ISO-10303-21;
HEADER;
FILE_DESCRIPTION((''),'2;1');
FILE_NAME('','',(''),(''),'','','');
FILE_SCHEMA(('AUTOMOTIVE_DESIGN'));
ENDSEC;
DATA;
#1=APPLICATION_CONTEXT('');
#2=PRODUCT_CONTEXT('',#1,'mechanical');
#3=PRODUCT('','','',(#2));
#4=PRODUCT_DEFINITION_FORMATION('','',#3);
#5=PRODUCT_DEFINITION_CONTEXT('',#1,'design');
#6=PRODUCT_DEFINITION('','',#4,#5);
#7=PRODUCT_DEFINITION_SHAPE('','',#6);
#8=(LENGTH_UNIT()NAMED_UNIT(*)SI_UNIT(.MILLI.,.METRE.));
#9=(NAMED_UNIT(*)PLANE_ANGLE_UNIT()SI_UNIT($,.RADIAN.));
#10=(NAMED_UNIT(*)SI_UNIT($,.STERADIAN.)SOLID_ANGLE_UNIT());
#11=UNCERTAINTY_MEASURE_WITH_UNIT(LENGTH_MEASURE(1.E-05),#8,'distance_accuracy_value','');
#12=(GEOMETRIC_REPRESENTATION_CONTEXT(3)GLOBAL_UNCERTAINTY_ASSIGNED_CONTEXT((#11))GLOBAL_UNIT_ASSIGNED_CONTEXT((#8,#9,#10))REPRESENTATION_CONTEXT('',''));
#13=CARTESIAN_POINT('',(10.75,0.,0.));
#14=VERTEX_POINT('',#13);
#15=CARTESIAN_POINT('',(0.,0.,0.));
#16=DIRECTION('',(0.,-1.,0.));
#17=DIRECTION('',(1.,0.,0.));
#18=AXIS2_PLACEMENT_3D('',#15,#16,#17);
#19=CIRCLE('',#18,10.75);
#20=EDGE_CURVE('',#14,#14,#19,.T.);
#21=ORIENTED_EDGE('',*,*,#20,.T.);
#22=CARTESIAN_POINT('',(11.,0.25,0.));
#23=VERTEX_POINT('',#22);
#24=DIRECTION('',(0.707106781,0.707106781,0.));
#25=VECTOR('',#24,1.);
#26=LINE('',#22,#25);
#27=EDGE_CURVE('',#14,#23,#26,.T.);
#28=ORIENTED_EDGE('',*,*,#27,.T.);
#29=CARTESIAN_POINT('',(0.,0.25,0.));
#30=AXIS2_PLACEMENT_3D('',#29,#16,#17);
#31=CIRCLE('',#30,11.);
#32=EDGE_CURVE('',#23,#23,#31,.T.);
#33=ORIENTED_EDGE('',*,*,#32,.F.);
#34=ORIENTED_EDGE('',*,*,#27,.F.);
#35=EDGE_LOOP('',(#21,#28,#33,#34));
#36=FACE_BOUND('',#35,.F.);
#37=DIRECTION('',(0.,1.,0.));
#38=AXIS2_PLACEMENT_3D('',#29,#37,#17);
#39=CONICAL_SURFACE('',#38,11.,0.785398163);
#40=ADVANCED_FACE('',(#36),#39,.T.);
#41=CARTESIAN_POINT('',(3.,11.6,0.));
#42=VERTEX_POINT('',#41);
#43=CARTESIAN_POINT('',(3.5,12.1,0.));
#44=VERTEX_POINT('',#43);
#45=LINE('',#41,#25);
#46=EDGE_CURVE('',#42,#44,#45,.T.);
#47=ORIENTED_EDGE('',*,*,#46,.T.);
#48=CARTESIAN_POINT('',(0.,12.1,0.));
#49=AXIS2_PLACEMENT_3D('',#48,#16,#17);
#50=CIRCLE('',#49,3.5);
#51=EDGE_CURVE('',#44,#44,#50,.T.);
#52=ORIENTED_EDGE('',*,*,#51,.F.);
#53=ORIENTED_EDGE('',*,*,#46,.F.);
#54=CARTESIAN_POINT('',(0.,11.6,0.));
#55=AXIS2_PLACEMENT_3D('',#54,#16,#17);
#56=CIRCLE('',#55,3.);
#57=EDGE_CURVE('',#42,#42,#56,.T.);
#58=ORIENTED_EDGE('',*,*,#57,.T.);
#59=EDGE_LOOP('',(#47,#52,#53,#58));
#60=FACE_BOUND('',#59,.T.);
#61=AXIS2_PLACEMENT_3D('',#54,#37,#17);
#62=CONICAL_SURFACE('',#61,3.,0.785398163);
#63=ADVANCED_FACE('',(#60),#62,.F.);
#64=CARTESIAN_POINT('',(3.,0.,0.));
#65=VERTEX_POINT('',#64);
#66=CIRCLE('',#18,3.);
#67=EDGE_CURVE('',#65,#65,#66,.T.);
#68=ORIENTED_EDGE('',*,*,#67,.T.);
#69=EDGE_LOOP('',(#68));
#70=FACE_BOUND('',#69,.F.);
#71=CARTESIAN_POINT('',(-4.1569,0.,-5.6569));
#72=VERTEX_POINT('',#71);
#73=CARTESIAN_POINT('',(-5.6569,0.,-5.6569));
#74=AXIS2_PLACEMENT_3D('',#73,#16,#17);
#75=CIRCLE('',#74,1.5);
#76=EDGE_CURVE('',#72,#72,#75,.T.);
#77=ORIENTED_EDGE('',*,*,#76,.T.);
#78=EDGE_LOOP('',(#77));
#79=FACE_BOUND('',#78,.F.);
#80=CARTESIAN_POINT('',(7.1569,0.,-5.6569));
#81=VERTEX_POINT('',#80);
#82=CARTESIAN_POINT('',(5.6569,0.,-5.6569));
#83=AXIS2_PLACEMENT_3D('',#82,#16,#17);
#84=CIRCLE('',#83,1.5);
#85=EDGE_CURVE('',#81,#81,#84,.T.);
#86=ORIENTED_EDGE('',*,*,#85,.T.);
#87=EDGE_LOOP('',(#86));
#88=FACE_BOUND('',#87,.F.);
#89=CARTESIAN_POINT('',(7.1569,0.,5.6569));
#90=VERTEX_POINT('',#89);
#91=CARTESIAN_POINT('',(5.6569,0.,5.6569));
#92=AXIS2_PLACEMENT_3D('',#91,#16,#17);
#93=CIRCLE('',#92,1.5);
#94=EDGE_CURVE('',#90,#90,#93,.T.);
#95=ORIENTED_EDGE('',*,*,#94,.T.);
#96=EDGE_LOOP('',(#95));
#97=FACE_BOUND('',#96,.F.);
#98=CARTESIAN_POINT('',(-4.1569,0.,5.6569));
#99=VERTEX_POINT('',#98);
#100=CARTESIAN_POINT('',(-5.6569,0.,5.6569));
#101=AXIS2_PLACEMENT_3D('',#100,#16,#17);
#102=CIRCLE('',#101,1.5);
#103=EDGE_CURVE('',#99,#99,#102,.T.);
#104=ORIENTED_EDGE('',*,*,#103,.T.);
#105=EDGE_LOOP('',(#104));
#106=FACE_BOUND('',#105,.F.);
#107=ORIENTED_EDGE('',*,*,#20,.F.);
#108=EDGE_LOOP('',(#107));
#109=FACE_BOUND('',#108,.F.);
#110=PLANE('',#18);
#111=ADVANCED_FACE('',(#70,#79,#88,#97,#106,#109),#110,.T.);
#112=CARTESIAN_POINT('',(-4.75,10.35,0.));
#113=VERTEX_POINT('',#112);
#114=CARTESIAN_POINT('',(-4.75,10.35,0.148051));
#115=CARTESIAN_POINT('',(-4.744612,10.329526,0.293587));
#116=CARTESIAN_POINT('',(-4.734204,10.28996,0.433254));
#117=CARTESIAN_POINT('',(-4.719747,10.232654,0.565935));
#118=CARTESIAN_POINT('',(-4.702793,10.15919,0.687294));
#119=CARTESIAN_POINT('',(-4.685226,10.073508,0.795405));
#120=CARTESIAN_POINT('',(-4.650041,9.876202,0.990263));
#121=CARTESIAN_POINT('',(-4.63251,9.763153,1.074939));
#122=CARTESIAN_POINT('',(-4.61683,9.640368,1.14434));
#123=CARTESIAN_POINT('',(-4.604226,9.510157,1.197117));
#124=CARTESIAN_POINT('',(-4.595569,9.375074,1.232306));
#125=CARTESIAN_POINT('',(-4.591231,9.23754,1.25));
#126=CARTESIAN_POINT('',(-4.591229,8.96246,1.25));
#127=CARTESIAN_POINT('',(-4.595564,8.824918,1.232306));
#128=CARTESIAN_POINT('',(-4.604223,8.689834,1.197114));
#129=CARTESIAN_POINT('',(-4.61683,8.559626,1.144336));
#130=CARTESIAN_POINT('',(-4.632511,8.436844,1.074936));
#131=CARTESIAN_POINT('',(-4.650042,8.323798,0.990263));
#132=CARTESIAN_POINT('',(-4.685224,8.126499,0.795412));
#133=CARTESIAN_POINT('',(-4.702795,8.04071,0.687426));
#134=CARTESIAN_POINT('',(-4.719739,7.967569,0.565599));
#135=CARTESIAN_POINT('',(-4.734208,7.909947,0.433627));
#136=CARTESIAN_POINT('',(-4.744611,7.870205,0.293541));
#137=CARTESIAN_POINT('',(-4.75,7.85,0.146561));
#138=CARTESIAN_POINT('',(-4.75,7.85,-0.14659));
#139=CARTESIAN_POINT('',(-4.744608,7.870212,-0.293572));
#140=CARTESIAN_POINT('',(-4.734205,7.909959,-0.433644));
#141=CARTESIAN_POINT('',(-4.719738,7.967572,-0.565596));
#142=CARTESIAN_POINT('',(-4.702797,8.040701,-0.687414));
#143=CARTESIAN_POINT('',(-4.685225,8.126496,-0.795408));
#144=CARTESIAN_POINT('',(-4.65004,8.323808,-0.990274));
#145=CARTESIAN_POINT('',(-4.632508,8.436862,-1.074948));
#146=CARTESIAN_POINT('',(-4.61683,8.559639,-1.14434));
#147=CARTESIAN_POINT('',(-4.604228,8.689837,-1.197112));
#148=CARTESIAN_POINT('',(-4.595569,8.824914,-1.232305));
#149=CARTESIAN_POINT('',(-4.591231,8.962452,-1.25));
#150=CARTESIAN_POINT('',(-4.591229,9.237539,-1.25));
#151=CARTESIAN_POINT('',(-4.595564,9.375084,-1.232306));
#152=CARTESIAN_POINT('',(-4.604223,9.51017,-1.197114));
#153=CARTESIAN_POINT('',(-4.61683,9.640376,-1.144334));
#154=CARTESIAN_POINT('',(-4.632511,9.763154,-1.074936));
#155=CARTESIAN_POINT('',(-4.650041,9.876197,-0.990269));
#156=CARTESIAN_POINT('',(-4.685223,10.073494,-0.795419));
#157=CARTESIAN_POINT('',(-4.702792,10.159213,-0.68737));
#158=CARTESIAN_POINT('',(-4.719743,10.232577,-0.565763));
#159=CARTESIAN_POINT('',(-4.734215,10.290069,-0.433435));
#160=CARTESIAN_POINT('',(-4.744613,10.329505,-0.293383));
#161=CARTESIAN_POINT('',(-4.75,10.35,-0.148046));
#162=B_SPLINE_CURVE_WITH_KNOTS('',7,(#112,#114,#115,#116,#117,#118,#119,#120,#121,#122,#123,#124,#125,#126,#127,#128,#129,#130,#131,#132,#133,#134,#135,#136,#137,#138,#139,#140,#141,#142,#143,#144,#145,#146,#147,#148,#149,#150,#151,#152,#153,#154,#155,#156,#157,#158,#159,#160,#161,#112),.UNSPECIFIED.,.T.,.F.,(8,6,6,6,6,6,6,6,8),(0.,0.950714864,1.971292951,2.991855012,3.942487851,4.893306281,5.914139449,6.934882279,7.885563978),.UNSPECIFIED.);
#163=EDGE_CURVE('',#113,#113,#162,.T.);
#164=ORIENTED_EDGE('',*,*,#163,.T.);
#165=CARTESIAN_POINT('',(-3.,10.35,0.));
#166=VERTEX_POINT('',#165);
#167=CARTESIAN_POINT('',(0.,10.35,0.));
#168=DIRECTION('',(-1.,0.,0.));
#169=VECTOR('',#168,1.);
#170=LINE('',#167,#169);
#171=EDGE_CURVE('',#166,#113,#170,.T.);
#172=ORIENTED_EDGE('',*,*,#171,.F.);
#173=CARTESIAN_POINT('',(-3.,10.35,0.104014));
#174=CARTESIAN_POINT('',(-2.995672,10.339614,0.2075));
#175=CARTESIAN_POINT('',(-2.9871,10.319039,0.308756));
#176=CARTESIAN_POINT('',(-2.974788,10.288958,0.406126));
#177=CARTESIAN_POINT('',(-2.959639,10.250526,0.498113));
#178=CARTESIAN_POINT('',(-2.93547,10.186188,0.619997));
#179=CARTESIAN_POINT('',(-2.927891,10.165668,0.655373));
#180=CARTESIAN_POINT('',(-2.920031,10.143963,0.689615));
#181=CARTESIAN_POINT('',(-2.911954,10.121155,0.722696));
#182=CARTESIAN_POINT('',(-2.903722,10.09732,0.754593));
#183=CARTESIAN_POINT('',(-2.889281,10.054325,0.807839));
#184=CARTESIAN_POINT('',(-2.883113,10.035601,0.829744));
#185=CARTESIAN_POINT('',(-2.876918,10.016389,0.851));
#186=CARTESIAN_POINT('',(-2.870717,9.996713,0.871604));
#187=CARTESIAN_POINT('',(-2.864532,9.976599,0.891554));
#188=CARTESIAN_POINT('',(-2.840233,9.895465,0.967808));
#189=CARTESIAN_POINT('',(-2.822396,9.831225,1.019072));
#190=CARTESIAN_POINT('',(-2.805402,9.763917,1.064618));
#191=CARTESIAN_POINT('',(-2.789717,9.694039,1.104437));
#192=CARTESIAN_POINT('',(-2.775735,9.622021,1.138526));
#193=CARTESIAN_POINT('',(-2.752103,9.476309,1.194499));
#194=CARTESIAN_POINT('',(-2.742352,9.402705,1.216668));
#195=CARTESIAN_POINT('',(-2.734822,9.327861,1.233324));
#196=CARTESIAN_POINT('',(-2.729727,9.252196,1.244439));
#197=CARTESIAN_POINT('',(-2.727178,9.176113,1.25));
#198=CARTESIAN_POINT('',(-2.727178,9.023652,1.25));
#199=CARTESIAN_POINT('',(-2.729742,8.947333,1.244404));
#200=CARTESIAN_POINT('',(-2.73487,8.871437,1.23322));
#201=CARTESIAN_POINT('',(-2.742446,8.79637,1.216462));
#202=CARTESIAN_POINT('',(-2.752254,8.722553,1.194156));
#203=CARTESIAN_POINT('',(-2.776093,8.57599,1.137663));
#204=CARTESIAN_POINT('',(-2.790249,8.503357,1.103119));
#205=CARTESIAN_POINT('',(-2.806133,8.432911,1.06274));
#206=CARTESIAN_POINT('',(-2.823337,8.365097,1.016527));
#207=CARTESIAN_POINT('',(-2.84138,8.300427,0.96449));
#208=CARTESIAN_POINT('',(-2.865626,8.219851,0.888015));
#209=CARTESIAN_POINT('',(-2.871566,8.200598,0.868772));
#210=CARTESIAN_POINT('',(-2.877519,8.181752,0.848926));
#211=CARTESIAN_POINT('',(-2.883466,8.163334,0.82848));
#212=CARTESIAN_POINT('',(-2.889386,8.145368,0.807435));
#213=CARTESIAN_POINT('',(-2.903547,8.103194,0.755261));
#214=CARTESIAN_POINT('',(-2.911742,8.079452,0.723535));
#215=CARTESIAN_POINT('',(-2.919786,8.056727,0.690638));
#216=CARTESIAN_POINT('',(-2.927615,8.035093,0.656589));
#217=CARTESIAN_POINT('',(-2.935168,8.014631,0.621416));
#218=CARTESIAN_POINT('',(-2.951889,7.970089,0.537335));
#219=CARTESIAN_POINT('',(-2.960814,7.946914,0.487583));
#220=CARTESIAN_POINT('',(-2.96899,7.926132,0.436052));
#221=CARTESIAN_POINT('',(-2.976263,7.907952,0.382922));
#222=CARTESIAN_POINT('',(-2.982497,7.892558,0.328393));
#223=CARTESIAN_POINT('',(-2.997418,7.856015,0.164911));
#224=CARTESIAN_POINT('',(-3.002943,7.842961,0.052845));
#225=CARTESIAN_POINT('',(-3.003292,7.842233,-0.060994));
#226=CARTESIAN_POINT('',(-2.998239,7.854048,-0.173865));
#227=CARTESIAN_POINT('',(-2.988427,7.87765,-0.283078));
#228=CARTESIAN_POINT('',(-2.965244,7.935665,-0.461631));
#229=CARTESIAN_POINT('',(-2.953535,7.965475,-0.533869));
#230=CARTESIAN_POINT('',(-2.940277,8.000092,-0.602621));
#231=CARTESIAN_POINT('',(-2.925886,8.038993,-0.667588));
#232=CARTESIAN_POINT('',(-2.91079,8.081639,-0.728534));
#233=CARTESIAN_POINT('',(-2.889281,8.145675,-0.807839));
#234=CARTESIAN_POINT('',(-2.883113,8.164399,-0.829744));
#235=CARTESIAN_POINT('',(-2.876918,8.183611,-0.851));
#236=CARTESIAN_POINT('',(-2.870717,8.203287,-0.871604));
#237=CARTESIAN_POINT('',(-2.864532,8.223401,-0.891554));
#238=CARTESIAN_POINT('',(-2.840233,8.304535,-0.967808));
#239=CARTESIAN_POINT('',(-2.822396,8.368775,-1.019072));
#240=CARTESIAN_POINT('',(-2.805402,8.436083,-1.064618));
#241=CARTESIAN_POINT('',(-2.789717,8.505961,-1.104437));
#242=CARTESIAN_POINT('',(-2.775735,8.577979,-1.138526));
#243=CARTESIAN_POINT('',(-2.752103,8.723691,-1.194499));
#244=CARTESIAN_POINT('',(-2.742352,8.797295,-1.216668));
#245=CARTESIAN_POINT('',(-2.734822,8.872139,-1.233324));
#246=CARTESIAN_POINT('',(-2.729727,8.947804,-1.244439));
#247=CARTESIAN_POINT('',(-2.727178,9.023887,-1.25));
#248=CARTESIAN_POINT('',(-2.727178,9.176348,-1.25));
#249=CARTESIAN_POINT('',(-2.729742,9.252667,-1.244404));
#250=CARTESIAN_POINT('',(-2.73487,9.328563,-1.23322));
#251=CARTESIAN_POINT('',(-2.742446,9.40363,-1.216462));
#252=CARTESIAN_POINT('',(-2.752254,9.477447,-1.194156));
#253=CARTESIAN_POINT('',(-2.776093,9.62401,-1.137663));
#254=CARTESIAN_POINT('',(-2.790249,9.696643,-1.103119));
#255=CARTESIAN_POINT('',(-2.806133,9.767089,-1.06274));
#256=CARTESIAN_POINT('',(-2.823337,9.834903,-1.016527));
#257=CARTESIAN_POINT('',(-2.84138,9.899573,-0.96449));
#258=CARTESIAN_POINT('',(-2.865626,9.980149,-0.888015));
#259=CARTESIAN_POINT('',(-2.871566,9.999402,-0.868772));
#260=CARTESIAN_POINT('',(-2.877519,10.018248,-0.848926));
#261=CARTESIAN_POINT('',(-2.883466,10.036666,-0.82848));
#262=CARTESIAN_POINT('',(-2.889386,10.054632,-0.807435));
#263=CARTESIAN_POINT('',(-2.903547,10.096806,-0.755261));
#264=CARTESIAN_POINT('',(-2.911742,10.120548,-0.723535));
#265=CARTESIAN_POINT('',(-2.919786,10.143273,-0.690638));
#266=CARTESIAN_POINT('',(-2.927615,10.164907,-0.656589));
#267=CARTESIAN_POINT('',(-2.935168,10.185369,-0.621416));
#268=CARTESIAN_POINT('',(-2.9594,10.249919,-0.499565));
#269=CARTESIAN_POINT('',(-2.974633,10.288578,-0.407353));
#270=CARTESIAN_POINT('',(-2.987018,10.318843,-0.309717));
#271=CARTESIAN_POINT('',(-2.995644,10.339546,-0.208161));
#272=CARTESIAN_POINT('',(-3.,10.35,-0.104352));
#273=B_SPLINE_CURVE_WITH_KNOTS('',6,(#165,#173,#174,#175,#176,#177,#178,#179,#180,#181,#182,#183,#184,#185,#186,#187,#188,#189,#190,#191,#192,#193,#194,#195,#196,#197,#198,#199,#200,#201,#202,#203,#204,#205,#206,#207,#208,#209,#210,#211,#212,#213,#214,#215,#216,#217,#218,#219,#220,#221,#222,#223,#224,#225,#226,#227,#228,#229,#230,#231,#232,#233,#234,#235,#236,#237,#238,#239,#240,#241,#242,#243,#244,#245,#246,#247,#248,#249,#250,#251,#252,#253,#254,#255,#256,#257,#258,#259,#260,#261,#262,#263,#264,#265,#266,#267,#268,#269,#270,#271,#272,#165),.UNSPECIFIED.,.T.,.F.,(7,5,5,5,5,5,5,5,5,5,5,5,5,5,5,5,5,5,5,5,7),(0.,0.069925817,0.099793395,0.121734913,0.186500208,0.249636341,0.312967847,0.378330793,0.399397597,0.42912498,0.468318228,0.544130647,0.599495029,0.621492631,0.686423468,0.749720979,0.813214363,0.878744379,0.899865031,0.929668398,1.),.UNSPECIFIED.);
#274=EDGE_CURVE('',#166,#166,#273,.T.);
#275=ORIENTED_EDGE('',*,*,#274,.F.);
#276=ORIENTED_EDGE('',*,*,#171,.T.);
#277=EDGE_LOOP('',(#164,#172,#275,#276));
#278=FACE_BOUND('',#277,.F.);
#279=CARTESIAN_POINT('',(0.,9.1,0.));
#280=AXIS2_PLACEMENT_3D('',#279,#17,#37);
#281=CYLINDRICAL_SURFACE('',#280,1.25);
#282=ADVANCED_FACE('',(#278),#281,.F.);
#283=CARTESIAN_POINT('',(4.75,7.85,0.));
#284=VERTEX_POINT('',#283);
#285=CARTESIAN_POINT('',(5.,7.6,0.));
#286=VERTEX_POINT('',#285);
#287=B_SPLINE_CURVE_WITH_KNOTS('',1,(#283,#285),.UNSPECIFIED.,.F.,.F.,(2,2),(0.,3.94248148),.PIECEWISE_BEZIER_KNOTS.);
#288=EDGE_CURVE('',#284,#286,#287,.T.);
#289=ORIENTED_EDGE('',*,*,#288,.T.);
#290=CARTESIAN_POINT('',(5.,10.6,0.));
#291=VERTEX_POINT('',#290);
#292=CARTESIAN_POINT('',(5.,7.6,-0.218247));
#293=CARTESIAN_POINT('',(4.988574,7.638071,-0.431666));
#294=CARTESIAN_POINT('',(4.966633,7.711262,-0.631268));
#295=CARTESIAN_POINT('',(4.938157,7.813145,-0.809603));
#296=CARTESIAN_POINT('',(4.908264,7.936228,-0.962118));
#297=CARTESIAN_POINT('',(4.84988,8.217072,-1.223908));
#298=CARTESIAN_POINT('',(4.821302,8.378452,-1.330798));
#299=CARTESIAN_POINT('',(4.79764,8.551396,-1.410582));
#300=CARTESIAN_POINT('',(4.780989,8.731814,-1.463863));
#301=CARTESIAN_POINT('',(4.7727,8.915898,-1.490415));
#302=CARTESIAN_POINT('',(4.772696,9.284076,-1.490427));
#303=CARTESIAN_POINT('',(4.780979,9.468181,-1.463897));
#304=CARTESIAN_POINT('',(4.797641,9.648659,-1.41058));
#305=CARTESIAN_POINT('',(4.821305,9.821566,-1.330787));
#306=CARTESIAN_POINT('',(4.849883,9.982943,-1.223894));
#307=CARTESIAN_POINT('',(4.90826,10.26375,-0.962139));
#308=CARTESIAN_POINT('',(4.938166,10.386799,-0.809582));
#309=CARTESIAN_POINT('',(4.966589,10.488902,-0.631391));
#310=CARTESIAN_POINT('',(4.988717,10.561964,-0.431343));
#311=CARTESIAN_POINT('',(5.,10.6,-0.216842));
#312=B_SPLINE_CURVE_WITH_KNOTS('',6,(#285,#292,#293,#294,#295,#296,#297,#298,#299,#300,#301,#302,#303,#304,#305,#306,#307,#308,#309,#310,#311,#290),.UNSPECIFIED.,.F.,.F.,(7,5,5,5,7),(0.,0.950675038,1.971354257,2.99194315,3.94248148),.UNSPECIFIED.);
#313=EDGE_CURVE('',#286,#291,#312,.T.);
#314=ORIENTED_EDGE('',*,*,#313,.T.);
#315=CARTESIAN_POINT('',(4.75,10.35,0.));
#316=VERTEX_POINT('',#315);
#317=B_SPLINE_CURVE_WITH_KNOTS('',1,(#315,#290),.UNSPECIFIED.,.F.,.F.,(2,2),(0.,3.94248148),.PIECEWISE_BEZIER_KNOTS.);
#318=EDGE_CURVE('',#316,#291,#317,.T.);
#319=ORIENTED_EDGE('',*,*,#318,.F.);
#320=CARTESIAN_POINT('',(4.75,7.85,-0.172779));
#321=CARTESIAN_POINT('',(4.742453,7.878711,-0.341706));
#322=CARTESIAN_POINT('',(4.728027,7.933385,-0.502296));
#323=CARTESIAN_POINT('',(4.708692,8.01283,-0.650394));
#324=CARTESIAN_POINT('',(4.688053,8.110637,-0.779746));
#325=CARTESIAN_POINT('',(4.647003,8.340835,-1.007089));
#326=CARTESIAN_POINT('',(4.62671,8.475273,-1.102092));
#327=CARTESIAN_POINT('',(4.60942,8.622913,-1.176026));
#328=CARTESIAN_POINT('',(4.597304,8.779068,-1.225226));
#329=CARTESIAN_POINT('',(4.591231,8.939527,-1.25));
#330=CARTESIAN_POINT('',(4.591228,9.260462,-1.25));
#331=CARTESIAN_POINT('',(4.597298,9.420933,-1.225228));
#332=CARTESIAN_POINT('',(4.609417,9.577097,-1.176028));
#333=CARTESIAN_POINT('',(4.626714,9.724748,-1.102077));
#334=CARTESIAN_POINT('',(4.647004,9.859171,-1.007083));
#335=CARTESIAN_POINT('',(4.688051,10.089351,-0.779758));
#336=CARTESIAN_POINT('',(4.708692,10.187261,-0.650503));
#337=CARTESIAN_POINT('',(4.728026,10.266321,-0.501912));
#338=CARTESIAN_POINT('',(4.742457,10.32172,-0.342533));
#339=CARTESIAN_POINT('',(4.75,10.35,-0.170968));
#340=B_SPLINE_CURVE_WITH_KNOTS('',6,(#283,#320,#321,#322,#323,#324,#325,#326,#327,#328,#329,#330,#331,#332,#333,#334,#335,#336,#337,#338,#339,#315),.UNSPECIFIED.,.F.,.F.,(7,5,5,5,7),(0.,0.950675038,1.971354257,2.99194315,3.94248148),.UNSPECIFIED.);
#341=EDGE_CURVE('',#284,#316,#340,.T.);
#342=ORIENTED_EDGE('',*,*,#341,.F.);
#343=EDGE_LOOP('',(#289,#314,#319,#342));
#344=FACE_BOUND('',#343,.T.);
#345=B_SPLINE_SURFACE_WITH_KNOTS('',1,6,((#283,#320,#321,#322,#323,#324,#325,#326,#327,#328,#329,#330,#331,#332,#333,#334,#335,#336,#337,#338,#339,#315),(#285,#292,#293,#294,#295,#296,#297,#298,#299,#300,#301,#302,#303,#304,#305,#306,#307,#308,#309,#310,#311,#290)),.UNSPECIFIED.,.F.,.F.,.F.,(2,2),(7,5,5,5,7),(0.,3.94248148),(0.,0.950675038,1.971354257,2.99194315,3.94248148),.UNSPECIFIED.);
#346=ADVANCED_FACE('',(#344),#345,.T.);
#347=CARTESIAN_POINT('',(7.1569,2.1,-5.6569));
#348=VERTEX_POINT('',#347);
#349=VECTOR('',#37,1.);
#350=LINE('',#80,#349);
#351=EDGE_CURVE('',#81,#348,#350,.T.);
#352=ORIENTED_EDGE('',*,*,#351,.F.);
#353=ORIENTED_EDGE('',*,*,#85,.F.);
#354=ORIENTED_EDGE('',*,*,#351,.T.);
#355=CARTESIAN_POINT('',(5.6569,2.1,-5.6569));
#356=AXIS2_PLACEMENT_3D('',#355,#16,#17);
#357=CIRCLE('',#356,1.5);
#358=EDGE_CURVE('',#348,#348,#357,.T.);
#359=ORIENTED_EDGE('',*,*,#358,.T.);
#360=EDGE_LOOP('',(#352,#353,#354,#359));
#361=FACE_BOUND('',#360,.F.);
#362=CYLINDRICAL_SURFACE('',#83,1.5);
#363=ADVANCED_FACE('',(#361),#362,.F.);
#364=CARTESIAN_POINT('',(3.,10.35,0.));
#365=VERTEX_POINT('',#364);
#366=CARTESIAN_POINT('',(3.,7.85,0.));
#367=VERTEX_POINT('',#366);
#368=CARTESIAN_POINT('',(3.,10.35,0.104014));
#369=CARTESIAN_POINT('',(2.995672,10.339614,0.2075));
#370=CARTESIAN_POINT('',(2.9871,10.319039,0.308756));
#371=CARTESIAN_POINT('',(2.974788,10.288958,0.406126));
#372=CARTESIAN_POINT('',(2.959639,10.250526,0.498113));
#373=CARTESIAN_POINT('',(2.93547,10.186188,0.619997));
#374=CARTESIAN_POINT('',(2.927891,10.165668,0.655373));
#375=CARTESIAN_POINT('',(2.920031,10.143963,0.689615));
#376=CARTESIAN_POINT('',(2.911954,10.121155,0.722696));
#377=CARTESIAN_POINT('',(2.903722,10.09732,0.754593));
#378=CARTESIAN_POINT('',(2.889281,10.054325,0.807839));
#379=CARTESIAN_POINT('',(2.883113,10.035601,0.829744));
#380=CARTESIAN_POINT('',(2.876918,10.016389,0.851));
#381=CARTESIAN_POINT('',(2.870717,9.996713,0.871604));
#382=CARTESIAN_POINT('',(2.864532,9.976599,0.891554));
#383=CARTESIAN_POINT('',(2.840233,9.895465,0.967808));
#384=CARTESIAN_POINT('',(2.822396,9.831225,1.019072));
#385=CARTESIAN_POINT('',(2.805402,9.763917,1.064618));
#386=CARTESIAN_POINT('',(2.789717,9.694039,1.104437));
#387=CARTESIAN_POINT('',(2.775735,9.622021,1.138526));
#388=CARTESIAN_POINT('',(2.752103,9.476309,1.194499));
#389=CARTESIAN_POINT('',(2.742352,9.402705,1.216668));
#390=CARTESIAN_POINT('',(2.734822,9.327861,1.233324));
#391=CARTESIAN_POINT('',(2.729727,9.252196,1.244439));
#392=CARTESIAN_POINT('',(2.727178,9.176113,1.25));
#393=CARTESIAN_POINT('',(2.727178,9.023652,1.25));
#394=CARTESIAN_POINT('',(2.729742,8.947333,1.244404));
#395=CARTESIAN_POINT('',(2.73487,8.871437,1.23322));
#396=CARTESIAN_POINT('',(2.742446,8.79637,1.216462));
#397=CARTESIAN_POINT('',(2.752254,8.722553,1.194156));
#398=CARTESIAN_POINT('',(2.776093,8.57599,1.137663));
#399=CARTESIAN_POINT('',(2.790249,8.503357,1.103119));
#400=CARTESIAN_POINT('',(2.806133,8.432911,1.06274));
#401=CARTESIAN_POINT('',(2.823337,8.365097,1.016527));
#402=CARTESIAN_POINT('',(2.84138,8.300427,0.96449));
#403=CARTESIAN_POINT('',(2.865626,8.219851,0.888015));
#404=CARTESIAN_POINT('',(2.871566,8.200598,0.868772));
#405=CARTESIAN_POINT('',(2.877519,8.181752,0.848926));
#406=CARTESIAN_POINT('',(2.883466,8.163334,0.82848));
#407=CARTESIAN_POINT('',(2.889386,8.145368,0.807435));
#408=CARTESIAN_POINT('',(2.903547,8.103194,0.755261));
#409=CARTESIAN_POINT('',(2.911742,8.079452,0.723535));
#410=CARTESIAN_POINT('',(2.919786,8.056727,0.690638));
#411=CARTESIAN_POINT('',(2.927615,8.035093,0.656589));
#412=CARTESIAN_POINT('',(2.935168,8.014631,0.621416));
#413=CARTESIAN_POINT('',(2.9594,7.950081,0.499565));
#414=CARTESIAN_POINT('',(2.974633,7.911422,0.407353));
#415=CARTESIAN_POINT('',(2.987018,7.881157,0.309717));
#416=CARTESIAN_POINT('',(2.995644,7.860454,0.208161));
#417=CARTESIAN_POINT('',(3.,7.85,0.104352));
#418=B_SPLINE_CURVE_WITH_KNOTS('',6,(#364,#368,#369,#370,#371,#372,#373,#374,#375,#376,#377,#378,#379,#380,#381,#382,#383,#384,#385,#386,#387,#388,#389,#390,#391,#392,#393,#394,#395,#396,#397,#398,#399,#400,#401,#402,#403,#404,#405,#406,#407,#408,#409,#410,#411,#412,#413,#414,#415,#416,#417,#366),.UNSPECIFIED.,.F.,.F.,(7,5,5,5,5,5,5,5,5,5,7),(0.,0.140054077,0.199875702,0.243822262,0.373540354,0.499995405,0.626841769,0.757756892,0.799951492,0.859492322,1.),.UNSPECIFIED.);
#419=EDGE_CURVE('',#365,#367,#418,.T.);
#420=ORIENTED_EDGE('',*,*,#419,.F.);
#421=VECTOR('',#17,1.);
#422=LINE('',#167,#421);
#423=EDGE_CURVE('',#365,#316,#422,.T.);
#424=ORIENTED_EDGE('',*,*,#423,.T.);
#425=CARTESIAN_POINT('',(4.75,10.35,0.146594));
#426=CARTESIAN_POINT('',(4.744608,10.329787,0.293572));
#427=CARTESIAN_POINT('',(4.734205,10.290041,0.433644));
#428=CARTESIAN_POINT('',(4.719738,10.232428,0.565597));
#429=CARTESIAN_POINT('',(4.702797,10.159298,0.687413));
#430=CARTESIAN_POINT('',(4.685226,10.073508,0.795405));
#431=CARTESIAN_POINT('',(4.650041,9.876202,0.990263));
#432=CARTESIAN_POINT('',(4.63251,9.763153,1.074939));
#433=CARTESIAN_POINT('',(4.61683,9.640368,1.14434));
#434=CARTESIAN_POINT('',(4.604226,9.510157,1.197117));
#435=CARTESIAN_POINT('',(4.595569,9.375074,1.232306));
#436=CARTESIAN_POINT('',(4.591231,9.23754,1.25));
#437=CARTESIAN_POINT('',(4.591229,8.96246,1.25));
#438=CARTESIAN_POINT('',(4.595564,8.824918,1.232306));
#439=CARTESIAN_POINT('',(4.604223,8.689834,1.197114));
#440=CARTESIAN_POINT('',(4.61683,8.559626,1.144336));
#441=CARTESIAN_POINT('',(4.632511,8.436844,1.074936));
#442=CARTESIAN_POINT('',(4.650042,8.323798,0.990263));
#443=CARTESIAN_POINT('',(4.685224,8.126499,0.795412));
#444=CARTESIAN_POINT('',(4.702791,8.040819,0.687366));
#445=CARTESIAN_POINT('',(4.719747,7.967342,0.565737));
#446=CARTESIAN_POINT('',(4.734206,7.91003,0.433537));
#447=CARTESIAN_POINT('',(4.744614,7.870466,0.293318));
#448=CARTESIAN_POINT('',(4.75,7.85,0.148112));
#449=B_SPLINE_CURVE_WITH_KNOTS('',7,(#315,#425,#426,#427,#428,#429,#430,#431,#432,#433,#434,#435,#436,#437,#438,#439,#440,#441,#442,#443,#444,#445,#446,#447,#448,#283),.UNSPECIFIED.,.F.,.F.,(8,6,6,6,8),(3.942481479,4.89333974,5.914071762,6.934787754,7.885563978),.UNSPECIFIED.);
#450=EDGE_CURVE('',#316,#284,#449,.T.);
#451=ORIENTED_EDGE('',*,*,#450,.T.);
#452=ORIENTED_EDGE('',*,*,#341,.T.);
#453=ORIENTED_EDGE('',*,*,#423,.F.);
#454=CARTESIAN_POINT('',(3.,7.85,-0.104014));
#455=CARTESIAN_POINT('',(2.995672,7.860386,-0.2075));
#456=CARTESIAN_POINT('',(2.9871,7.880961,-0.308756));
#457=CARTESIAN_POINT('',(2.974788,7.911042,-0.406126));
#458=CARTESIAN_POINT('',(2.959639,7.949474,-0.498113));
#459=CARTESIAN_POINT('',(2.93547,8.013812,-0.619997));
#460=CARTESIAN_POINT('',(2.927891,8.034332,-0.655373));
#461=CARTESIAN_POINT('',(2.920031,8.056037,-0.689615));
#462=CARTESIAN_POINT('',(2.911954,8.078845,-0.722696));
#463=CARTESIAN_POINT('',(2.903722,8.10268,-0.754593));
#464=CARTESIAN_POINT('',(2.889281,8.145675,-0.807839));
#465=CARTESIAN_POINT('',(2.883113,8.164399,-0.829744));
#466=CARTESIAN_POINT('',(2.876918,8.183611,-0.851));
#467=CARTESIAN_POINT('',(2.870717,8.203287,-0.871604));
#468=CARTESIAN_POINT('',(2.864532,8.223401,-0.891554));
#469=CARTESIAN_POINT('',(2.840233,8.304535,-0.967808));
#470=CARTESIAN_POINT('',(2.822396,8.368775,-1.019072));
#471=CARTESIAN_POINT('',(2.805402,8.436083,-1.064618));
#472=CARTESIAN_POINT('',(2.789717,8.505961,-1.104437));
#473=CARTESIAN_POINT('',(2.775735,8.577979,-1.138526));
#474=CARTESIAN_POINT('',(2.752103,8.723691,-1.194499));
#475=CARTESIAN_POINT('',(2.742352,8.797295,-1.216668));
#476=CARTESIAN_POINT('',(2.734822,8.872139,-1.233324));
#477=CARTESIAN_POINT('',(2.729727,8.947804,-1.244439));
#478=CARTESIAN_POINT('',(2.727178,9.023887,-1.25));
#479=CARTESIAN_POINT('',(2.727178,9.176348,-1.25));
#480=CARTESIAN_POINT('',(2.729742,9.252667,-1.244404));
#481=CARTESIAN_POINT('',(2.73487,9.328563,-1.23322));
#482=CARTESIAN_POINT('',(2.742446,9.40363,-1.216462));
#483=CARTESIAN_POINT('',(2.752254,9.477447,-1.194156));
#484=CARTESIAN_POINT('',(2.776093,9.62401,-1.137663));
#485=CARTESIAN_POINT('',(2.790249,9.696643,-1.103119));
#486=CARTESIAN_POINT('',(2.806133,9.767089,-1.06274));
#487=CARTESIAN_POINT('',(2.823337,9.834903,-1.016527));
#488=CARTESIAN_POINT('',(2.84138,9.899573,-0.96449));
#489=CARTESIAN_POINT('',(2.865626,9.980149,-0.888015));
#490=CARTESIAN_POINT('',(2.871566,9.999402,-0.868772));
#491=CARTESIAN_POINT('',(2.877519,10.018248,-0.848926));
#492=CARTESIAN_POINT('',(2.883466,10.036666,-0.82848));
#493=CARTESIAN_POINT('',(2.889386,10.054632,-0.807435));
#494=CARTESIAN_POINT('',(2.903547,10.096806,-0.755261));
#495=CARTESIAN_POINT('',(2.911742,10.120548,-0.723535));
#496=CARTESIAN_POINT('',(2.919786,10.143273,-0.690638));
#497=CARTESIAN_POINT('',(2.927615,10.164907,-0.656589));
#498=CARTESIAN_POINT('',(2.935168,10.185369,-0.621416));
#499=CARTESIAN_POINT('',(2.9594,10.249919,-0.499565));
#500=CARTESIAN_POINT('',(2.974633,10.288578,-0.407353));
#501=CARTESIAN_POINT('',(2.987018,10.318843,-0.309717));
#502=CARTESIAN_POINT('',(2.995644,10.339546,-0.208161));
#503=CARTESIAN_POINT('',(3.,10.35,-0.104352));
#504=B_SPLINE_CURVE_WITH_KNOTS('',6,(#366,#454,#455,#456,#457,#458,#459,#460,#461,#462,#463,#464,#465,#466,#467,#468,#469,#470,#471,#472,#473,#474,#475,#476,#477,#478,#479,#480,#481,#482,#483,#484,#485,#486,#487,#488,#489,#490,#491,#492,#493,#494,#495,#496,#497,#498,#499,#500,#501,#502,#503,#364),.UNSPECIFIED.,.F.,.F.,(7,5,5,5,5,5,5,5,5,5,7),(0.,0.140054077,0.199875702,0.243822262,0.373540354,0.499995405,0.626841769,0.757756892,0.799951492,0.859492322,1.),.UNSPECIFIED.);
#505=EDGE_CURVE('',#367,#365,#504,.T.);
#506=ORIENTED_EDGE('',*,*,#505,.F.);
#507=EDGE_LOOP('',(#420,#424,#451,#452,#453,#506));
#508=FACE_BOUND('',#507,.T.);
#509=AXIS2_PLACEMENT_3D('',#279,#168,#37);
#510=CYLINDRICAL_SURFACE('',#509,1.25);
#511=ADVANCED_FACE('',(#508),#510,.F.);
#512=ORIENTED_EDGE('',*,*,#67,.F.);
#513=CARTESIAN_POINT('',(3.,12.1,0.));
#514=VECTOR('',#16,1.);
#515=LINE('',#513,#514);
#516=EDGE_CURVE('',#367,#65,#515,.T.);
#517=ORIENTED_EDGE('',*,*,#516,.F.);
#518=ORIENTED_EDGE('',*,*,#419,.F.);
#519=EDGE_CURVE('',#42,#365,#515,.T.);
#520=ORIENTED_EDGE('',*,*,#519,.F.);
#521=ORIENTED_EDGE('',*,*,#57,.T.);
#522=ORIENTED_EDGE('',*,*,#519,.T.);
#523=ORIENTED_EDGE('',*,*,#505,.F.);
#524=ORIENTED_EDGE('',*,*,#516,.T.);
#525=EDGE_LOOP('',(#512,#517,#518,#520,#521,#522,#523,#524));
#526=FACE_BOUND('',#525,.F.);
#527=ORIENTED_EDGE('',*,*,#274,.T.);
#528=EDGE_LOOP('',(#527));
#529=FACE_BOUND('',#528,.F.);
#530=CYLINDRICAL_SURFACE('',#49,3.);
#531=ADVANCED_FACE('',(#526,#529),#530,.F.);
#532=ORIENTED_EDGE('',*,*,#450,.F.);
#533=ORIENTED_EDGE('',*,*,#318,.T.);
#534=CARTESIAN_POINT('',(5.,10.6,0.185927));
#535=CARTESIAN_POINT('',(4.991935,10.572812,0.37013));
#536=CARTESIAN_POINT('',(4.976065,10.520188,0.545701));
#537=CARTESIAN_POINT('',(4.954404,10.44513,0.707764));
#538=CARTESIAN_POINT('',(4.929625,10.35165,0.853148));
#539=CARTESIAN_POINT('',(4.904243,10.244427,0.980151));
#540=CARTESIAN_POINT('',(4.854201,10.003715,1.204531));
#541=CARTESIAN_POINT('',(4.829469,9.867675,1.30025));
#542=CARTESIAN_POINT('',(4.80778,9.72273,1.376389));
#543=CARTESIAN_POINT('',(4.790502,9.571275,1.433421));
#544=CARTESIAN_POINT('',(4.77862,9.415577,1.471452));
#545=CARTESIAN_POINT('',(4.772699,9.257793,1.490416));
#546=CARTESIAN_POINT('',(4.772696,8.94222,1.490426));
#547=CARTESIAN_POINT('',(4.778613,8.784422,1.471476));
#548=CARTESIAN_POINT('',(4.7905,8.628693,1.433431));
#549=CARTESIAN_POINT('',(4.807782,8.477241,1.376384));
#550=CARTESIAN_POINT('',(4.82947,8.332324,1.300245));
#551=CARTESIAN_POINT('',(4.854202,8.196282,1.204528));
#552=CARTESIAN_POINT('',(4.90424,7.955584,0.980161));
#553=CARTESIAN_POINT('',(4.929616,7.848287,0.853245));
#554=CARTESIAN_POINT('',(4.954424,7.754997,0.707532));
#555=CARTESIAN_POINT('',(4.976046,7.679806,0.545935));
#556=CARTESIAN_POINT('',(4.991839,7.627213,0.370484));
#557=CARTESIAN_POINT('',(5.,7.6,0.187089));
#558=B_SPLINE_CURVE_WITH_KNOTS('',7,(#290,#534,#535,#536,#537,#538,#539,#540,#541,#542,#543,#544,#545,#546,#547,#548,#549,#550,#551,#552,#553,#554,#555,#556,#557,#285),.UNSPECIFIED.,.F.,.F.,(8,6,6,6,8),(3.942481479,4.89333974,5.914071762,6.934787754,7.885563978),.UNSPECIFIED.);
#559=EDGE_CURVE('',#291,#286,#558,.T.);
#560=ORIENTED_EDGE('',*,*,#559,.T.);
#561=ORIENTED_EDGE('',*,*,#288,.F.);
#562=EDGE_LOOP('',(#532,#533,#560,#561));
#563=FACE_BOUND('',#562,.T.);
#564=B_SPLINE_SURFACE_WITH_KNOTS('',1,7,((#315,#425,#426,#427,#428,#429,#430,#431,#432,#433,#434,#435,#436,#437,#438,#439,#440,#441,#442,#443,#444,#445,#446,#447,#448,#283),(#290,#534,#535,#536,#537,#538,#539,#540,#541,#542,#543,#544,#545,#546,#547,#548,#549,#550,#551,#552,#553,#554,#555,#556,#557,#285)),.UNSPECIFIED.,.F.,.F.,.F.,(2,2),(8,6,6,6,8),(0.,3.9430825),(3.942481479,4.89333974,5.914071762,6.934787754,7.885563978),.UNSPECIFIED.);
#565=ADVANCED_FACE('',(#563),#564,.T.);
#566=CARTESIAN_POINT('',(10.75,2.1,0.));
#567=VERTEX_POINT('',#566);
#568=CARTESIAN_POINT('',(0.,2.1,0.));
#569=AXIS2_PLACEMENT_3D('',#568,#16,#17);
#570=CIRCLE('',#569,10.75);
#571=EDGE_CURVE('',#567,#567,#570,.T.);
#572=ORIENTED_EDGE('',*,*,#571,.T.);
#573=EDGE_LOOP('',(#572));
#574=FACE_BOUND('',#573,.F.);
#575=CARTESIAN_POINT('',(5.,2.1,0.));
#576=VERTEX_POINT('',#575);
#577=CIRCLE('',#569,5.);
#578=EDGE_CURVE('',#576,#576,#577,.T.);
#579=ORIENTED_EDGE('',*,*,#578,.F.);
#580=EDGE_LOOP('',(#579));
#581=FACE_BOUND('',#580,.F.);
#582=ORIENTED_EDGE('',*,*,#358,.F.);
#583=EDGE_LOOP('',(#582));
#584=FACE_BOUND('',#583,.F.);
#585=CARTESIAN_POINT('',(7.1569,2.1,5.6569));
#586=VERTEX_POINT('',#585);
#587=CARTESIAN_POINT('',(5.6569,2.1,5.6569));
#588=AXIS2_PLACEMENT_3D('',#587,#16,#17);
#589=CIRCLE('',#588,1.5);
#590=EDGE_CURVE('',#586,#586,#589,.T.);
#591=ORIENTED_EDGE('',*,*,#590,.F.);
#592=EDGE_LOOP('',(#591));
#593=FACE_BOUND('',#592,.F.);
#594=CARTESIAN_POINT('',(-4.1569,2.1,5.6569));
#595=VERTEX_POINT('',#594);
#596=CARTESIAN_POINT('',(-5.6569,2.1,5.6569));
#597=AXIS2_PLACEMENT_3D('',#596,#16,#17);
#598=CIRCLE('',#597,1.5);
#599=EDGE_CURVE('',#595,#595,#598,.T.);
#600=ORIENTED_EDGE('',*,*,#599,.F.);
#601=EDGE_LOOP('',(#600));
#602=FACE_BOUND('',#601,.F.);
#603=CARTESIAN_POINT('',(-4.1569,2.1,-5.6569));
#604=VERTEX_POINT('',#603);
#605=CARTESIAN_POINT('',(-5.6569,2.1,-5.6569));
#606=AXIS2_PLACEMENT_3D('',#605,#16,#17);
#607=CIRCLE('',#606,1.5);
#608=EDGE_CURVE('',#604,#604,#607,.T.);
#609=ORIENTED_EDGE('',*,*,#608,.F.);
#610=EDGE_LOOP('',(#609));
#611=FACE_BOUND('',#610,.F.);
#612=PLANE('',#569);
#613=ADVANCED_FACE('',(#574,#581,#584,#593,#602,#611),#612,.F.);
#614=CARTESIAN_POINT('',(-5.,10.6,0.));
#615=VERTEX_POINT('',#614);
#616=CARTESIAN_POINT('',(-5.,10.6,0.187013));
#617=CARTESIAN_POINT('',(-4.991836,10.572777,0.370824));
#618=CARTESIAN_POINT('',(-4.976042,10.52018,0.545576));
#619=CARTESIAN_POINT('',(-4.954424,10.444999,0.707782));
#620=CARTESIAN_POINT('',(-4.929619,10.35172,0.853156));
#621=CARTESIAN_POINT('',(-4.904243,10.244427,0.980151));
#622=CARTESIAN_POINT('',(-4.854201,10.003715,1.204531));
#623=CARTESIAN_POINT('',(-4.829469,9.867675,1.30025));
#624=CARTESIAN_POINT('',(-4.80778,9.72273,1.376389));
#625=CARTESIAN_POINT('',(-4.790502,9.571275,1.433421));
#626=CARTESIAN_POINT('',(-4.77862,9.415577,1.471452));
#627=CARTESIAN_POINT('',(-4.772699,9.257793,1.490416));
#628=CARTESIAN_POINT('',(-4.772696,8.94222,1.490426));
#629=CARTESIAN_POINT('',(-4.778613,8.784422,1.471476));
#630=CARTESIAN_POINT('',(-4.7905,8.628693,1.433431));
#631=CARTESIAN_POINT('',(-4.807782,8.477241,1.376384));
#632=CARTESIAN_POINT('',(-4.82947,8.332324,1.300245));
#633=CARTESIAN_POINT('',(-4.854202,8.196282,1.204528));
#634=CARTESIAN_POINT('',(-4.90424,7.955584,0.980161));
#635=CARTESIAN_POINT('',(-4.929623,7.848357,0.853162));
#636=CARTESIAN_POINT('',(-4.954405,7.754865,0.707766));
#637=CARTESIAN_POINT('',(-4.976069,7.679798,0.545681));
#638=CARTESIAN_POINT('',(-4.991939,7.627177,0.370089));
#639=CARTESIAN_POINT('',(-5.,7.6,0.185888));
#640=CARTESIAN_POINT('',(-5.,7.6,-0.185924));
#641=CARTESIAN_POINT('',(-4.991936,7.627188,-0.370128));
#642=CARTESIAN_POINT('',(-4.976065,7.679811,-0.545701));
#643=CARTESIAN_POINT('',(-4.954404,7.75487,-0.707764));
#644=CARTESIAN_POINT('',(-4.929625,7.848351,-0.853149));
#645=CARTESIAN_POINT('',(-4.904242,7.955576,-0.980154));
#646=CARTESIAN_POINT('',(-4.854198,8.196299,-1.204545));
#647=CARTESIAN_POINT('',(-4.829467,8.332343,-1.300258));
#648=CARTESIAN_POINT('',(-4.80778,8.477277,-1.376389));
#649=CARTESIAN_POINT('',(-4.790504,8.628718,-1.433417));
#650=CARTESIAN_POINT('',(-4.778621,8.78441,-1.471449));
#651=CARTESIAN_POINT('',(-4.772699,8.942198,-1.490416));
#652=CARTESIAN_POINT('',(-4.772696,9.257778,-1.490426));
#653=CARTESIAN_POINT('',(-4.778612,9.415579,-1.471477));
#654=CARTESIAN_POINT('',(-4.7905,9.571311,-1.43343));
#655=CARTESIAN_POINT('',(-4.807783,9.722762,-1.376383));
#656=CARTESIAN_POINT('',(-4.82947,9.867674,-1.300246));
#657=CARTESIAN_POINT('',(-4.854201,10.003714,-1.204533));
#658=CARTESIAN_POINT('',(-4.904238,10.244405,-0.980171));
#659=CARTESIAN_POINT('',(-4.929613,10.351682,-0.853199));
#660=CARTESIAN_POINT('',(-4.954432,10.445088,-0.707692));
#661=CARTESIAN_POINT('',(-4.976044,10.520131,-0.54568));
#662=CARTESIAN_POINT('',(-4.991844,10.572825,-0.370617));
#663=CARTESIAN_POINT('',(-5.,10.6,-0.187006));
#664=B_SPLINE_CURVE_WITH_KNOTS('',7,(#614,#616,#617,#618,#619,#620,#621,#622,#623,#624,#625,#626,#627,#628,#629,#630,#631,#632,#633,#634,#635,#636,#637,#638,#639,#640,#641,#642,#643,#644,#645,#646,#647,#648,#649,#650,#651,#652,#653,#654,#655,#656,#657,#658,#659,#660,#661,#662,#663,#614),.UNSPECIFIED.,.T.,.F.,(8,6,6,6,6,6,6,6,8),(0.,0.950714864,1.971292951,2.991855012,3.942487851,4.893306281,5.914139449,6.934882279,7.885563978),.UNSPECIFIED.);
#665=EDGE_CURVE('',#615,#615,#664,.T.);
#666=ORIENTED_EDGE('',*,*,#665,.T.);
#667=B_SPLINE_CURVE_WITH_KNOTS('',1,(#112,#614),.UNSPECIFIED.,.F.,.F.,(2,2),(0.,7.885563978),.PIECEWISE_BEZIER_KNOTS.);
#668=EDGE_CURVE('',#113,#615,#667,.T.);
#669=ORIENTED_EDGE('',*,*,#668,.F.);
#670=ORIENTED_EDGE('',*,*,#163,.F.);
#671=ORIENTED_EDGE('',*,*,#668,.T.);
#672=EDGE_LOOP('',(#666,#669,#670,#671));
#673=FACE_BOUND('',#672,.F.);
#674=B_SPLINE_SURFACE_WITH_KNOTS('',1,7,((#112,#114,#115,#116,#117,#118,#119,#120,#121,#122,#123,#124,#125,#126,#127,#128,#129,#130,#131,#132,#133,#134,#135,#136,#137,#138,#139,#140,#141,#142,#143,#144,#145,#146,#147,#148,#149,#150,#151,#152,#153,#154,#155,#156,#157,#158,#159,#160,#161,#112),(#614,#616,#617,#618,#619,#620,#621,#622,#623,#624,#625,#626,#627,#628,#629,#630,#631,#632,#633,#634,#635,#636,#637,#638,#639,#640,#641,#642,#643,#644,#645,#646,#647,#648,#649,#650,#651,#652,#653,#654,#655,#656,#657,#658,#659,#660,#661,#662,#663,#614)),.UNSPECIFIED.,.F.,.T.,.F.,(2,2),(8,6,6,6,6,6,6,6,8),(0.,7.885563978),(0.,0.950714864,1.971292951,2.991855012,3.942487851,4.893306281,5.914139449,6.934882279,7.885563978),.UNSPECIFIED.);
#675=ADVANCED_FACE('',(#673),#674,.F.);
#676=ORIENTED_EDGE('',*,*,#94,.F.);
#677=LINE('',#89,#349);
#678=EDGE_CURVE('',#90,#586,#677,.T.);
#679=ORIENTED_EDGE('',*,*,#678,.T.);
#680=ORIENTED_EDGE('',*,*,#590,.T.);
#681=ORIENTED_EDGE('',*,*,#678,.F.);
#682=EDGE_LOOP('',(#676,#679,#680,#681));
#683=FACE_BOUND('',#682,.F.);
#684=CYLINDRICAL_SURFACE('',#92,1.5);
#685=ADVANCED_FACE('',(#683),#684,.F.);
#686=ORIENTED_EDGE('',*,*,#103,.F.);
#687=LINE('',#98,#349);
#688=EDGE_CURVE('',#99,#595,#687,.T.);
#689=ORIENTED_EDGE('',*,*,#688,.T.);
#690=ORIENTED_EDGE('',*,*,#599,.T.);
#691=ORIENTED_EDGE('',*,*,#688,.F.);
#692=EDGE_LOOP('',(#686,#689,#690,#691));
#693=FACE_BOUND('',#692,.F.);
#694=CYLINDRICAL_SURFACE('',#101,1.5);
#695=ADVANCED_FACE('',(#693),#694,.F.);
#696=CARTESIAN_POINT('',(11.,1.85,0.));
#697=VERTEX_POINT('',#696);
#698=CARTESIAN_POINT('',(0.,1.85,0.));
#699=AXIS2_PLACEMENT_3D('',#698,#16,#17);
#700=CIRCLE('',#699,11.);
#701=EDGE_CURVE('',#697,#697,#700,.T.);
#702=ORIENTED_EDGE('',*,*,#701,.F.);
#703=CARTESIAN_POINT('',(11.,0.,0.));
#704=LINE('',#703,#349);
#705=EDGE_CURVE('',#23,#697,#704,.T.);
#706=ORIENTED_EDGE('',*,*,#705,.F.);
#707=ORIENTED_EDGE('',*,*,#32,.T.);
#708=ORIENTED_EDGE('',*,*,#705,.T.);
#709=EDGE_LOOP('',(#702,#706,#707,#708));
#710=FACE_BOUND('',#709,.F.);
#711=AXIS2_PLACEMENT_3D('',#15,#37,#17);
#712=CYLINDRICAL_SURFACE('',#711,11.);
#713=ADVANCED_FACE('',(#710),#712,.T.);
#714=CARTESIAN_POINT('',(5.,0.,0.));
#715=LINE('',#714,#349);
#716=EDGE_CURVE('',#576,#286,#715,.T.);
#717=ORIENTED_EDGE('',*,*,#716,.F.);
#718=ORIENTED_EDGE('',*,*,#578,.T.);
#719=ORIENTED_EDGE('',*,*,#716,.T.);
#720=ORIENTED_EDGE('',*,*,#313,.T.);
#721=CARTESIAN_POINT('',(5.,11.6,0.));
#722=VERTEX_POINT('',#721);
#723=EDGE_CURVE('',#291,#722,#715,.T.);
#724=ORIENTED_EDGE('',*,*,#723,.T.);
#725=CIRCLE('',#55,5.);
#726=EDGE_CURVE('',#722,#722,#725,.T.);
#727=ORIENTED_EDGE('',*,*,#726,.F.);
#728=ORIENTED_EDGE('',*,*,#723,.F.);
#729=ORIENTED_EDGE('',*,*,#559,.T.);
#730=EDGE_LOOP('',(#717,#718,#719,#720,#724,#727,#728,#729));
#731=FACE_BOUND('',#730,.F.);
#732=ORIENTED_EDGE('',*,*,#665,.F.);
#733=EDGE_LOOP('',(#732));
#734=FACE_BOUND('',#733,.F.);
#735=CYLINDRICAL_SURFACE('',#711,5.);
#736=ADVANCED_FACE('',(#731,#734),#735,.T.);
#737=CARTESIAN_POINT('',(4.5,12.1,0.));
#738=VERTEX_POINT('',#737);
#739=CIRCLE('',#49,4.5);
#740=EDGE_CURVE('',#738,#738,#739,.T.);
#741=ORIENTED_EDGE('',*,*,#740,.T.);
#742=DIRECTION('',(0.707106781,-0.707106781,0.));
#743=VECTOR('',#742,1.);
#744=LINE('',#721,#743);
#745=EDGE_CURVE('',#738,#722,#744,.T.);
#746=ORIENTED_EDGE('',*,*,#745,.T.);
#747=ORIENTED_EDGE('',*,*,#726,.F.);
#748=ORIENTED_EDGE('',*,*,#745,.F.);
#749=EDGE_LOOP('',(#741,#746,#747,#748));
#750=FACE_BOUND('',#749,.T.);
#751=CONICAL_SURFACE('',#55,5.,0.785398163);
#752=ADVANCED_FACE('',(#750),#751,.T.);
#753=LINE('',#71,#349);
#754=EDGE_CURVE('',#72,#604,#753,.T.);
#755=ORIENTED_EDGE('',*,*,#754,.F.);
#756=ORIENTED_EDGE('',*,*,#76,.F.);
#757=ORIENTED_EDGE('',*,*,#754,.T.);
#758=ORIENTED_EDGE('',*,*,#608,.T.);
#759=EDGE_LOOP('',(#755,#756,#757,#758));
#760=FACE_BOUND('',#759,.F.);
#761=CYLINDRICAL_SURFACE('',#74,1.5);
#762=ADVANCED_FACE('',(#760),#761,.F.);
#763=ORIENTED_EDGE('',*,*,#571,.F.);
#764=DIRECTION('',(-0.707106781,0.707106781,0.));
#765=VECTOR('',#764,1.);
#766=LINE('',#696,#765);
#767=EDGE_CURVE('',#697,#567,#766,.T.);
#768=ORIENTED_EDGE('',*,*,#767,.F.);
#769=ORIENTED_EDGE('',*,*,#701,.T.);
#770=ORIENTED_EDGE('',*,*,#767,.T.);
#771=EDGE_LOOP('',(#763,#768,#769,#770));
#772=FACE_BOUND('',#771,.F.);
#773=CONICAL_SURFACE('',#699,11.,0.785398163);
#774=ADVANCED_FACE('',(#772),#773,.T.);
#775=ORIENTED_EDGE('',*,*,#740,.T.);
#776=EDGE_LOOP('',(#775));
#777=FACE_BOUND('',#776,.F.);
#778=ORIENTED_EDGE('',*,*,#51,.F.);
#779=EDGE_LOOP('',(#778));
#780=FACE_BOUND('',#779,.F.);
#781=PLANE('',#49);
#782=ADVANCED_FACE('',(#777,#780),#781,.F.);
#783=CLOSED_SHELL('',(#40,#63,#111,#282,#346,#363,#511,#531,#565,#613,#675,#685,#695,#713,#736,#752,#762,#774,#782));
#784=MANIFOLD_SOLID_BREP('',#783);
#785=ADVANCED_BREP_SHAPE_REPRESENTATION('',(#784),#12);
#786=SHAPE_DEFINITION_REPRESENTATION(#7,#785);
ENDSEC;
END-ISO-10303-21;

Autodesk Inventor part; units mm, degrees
ref_plane "YZ Plane" through (0, 0, 0) normal (1, 0, 0) x (0, 1, 0)
ref_plane "XZ Plane" through (0, 0, 0) normal (0, 1, 0) x (-1, 0, 0)
ref_plane "XY Plane" through (0, 0, 0) normal (0, 0, 1) x (1, 0, 0)
sketch "Sketch1" plane through (0, 0, 0) normal (0, 0, 1) x (1, 0, 0)
  line L0 (0, 0) -> (11, 0)
  line L1 (11, 0) -> (11, 2.1)
  line L2 (11, 2.1) -> (0, 2.1)
  line L3 (0, 2.1) -> (0, 0)
  line L4 (0, 0) -> (5, 0)
  line L5 (5, 0) -> (5, 12.1)
  line L6 (5, 12.1) -> (0, 12.1)
  line L7 (0, 12.1) -> (0, 0)
  line L8 (0, 12.1) -> (3, 12.1)
  line L9 (3, 12.1) -> (3, 0)
  line L10 (3, 0) -> (0, 0)
  line L11 (0, 0) -> (0, 12.1)
  point P0 (3, 0)
  point P1 (5, 2.1)
  dimension "d0" = 11
  dimension "d1" = 2.1
  dimension "d2" = 5
  dimension "d3" = 12.1
  dimension "d4" = 3
revolve "Revolution1" add sketch "Sketch1" angle 360 about axis through (0, 12.1, 0) along (0, -1, 0) contours L9 L2 L5 L0 | L5 L2 L1 L0 | L9 L6 L5 L2
sketch "Sketch2" plane through (0, 0, 0) normal (0, -1, 0) x (1, 0, 0)
  circle A0 centre (0, 0) radius 8 construction
  line L0 (0, 0) -> (8, 0) construction
  circle A1 centre (8, 0) radius 1.5
  circle A2 centre (5.6569, 5.6569) radius 1.5
  circle A3 centre (0, 8) radius 1.5
  circle A4 centre (-5.6569, 5.6569) radius 1.5
  circle A5 centre (-8, 0) radius 1.5
  circle A6 centre (-5.6569, -5.6569) radius 1.5
  circle A7 centre (0, -8) radius 1.5
  circle A8 centre (5.6569, -5.6569) radius 1.5
  dimension "d6" = 16
  dimension "d7" = 3
  dimension "d10" = 360
extrude "Extrusion1" cut sketch "Sketch2" against normal through all contours A2 | A4 | A6 | A8
sketch "Sketch3" plane through (0, 0, 0) normal (1, 0, 0) x (0, 1, 0)
  line L0 (12.1, 5) -> (12.1, -5) projected
  line L1 (12.1, 0) -> (0, 0) construction
  circle A0 centre (9.1, 0) radius 1.25
  dimension "d14" = 2.5
  dimension "d15" = 3
extrude "Extrusion2" cut sketch "Sketch3" along normal through all both and the other way through all
chamfer "Chamfer1" distance 0.5 angle 45 2 edges at (-5, 12.1, 0) (-3, 12.1, 0)
chamfer "Chamfer2" distance 0.25 angle 45 5 edges at (-11, 0, 0) (-11, 2.1, 0) (4.8412, 9.0999, -1.25) (4.8412, 9.1, 1.25) (-5, 7.85, -0.0003)
properties part number "Hubs - 6mm" material "Stainless Steel"
